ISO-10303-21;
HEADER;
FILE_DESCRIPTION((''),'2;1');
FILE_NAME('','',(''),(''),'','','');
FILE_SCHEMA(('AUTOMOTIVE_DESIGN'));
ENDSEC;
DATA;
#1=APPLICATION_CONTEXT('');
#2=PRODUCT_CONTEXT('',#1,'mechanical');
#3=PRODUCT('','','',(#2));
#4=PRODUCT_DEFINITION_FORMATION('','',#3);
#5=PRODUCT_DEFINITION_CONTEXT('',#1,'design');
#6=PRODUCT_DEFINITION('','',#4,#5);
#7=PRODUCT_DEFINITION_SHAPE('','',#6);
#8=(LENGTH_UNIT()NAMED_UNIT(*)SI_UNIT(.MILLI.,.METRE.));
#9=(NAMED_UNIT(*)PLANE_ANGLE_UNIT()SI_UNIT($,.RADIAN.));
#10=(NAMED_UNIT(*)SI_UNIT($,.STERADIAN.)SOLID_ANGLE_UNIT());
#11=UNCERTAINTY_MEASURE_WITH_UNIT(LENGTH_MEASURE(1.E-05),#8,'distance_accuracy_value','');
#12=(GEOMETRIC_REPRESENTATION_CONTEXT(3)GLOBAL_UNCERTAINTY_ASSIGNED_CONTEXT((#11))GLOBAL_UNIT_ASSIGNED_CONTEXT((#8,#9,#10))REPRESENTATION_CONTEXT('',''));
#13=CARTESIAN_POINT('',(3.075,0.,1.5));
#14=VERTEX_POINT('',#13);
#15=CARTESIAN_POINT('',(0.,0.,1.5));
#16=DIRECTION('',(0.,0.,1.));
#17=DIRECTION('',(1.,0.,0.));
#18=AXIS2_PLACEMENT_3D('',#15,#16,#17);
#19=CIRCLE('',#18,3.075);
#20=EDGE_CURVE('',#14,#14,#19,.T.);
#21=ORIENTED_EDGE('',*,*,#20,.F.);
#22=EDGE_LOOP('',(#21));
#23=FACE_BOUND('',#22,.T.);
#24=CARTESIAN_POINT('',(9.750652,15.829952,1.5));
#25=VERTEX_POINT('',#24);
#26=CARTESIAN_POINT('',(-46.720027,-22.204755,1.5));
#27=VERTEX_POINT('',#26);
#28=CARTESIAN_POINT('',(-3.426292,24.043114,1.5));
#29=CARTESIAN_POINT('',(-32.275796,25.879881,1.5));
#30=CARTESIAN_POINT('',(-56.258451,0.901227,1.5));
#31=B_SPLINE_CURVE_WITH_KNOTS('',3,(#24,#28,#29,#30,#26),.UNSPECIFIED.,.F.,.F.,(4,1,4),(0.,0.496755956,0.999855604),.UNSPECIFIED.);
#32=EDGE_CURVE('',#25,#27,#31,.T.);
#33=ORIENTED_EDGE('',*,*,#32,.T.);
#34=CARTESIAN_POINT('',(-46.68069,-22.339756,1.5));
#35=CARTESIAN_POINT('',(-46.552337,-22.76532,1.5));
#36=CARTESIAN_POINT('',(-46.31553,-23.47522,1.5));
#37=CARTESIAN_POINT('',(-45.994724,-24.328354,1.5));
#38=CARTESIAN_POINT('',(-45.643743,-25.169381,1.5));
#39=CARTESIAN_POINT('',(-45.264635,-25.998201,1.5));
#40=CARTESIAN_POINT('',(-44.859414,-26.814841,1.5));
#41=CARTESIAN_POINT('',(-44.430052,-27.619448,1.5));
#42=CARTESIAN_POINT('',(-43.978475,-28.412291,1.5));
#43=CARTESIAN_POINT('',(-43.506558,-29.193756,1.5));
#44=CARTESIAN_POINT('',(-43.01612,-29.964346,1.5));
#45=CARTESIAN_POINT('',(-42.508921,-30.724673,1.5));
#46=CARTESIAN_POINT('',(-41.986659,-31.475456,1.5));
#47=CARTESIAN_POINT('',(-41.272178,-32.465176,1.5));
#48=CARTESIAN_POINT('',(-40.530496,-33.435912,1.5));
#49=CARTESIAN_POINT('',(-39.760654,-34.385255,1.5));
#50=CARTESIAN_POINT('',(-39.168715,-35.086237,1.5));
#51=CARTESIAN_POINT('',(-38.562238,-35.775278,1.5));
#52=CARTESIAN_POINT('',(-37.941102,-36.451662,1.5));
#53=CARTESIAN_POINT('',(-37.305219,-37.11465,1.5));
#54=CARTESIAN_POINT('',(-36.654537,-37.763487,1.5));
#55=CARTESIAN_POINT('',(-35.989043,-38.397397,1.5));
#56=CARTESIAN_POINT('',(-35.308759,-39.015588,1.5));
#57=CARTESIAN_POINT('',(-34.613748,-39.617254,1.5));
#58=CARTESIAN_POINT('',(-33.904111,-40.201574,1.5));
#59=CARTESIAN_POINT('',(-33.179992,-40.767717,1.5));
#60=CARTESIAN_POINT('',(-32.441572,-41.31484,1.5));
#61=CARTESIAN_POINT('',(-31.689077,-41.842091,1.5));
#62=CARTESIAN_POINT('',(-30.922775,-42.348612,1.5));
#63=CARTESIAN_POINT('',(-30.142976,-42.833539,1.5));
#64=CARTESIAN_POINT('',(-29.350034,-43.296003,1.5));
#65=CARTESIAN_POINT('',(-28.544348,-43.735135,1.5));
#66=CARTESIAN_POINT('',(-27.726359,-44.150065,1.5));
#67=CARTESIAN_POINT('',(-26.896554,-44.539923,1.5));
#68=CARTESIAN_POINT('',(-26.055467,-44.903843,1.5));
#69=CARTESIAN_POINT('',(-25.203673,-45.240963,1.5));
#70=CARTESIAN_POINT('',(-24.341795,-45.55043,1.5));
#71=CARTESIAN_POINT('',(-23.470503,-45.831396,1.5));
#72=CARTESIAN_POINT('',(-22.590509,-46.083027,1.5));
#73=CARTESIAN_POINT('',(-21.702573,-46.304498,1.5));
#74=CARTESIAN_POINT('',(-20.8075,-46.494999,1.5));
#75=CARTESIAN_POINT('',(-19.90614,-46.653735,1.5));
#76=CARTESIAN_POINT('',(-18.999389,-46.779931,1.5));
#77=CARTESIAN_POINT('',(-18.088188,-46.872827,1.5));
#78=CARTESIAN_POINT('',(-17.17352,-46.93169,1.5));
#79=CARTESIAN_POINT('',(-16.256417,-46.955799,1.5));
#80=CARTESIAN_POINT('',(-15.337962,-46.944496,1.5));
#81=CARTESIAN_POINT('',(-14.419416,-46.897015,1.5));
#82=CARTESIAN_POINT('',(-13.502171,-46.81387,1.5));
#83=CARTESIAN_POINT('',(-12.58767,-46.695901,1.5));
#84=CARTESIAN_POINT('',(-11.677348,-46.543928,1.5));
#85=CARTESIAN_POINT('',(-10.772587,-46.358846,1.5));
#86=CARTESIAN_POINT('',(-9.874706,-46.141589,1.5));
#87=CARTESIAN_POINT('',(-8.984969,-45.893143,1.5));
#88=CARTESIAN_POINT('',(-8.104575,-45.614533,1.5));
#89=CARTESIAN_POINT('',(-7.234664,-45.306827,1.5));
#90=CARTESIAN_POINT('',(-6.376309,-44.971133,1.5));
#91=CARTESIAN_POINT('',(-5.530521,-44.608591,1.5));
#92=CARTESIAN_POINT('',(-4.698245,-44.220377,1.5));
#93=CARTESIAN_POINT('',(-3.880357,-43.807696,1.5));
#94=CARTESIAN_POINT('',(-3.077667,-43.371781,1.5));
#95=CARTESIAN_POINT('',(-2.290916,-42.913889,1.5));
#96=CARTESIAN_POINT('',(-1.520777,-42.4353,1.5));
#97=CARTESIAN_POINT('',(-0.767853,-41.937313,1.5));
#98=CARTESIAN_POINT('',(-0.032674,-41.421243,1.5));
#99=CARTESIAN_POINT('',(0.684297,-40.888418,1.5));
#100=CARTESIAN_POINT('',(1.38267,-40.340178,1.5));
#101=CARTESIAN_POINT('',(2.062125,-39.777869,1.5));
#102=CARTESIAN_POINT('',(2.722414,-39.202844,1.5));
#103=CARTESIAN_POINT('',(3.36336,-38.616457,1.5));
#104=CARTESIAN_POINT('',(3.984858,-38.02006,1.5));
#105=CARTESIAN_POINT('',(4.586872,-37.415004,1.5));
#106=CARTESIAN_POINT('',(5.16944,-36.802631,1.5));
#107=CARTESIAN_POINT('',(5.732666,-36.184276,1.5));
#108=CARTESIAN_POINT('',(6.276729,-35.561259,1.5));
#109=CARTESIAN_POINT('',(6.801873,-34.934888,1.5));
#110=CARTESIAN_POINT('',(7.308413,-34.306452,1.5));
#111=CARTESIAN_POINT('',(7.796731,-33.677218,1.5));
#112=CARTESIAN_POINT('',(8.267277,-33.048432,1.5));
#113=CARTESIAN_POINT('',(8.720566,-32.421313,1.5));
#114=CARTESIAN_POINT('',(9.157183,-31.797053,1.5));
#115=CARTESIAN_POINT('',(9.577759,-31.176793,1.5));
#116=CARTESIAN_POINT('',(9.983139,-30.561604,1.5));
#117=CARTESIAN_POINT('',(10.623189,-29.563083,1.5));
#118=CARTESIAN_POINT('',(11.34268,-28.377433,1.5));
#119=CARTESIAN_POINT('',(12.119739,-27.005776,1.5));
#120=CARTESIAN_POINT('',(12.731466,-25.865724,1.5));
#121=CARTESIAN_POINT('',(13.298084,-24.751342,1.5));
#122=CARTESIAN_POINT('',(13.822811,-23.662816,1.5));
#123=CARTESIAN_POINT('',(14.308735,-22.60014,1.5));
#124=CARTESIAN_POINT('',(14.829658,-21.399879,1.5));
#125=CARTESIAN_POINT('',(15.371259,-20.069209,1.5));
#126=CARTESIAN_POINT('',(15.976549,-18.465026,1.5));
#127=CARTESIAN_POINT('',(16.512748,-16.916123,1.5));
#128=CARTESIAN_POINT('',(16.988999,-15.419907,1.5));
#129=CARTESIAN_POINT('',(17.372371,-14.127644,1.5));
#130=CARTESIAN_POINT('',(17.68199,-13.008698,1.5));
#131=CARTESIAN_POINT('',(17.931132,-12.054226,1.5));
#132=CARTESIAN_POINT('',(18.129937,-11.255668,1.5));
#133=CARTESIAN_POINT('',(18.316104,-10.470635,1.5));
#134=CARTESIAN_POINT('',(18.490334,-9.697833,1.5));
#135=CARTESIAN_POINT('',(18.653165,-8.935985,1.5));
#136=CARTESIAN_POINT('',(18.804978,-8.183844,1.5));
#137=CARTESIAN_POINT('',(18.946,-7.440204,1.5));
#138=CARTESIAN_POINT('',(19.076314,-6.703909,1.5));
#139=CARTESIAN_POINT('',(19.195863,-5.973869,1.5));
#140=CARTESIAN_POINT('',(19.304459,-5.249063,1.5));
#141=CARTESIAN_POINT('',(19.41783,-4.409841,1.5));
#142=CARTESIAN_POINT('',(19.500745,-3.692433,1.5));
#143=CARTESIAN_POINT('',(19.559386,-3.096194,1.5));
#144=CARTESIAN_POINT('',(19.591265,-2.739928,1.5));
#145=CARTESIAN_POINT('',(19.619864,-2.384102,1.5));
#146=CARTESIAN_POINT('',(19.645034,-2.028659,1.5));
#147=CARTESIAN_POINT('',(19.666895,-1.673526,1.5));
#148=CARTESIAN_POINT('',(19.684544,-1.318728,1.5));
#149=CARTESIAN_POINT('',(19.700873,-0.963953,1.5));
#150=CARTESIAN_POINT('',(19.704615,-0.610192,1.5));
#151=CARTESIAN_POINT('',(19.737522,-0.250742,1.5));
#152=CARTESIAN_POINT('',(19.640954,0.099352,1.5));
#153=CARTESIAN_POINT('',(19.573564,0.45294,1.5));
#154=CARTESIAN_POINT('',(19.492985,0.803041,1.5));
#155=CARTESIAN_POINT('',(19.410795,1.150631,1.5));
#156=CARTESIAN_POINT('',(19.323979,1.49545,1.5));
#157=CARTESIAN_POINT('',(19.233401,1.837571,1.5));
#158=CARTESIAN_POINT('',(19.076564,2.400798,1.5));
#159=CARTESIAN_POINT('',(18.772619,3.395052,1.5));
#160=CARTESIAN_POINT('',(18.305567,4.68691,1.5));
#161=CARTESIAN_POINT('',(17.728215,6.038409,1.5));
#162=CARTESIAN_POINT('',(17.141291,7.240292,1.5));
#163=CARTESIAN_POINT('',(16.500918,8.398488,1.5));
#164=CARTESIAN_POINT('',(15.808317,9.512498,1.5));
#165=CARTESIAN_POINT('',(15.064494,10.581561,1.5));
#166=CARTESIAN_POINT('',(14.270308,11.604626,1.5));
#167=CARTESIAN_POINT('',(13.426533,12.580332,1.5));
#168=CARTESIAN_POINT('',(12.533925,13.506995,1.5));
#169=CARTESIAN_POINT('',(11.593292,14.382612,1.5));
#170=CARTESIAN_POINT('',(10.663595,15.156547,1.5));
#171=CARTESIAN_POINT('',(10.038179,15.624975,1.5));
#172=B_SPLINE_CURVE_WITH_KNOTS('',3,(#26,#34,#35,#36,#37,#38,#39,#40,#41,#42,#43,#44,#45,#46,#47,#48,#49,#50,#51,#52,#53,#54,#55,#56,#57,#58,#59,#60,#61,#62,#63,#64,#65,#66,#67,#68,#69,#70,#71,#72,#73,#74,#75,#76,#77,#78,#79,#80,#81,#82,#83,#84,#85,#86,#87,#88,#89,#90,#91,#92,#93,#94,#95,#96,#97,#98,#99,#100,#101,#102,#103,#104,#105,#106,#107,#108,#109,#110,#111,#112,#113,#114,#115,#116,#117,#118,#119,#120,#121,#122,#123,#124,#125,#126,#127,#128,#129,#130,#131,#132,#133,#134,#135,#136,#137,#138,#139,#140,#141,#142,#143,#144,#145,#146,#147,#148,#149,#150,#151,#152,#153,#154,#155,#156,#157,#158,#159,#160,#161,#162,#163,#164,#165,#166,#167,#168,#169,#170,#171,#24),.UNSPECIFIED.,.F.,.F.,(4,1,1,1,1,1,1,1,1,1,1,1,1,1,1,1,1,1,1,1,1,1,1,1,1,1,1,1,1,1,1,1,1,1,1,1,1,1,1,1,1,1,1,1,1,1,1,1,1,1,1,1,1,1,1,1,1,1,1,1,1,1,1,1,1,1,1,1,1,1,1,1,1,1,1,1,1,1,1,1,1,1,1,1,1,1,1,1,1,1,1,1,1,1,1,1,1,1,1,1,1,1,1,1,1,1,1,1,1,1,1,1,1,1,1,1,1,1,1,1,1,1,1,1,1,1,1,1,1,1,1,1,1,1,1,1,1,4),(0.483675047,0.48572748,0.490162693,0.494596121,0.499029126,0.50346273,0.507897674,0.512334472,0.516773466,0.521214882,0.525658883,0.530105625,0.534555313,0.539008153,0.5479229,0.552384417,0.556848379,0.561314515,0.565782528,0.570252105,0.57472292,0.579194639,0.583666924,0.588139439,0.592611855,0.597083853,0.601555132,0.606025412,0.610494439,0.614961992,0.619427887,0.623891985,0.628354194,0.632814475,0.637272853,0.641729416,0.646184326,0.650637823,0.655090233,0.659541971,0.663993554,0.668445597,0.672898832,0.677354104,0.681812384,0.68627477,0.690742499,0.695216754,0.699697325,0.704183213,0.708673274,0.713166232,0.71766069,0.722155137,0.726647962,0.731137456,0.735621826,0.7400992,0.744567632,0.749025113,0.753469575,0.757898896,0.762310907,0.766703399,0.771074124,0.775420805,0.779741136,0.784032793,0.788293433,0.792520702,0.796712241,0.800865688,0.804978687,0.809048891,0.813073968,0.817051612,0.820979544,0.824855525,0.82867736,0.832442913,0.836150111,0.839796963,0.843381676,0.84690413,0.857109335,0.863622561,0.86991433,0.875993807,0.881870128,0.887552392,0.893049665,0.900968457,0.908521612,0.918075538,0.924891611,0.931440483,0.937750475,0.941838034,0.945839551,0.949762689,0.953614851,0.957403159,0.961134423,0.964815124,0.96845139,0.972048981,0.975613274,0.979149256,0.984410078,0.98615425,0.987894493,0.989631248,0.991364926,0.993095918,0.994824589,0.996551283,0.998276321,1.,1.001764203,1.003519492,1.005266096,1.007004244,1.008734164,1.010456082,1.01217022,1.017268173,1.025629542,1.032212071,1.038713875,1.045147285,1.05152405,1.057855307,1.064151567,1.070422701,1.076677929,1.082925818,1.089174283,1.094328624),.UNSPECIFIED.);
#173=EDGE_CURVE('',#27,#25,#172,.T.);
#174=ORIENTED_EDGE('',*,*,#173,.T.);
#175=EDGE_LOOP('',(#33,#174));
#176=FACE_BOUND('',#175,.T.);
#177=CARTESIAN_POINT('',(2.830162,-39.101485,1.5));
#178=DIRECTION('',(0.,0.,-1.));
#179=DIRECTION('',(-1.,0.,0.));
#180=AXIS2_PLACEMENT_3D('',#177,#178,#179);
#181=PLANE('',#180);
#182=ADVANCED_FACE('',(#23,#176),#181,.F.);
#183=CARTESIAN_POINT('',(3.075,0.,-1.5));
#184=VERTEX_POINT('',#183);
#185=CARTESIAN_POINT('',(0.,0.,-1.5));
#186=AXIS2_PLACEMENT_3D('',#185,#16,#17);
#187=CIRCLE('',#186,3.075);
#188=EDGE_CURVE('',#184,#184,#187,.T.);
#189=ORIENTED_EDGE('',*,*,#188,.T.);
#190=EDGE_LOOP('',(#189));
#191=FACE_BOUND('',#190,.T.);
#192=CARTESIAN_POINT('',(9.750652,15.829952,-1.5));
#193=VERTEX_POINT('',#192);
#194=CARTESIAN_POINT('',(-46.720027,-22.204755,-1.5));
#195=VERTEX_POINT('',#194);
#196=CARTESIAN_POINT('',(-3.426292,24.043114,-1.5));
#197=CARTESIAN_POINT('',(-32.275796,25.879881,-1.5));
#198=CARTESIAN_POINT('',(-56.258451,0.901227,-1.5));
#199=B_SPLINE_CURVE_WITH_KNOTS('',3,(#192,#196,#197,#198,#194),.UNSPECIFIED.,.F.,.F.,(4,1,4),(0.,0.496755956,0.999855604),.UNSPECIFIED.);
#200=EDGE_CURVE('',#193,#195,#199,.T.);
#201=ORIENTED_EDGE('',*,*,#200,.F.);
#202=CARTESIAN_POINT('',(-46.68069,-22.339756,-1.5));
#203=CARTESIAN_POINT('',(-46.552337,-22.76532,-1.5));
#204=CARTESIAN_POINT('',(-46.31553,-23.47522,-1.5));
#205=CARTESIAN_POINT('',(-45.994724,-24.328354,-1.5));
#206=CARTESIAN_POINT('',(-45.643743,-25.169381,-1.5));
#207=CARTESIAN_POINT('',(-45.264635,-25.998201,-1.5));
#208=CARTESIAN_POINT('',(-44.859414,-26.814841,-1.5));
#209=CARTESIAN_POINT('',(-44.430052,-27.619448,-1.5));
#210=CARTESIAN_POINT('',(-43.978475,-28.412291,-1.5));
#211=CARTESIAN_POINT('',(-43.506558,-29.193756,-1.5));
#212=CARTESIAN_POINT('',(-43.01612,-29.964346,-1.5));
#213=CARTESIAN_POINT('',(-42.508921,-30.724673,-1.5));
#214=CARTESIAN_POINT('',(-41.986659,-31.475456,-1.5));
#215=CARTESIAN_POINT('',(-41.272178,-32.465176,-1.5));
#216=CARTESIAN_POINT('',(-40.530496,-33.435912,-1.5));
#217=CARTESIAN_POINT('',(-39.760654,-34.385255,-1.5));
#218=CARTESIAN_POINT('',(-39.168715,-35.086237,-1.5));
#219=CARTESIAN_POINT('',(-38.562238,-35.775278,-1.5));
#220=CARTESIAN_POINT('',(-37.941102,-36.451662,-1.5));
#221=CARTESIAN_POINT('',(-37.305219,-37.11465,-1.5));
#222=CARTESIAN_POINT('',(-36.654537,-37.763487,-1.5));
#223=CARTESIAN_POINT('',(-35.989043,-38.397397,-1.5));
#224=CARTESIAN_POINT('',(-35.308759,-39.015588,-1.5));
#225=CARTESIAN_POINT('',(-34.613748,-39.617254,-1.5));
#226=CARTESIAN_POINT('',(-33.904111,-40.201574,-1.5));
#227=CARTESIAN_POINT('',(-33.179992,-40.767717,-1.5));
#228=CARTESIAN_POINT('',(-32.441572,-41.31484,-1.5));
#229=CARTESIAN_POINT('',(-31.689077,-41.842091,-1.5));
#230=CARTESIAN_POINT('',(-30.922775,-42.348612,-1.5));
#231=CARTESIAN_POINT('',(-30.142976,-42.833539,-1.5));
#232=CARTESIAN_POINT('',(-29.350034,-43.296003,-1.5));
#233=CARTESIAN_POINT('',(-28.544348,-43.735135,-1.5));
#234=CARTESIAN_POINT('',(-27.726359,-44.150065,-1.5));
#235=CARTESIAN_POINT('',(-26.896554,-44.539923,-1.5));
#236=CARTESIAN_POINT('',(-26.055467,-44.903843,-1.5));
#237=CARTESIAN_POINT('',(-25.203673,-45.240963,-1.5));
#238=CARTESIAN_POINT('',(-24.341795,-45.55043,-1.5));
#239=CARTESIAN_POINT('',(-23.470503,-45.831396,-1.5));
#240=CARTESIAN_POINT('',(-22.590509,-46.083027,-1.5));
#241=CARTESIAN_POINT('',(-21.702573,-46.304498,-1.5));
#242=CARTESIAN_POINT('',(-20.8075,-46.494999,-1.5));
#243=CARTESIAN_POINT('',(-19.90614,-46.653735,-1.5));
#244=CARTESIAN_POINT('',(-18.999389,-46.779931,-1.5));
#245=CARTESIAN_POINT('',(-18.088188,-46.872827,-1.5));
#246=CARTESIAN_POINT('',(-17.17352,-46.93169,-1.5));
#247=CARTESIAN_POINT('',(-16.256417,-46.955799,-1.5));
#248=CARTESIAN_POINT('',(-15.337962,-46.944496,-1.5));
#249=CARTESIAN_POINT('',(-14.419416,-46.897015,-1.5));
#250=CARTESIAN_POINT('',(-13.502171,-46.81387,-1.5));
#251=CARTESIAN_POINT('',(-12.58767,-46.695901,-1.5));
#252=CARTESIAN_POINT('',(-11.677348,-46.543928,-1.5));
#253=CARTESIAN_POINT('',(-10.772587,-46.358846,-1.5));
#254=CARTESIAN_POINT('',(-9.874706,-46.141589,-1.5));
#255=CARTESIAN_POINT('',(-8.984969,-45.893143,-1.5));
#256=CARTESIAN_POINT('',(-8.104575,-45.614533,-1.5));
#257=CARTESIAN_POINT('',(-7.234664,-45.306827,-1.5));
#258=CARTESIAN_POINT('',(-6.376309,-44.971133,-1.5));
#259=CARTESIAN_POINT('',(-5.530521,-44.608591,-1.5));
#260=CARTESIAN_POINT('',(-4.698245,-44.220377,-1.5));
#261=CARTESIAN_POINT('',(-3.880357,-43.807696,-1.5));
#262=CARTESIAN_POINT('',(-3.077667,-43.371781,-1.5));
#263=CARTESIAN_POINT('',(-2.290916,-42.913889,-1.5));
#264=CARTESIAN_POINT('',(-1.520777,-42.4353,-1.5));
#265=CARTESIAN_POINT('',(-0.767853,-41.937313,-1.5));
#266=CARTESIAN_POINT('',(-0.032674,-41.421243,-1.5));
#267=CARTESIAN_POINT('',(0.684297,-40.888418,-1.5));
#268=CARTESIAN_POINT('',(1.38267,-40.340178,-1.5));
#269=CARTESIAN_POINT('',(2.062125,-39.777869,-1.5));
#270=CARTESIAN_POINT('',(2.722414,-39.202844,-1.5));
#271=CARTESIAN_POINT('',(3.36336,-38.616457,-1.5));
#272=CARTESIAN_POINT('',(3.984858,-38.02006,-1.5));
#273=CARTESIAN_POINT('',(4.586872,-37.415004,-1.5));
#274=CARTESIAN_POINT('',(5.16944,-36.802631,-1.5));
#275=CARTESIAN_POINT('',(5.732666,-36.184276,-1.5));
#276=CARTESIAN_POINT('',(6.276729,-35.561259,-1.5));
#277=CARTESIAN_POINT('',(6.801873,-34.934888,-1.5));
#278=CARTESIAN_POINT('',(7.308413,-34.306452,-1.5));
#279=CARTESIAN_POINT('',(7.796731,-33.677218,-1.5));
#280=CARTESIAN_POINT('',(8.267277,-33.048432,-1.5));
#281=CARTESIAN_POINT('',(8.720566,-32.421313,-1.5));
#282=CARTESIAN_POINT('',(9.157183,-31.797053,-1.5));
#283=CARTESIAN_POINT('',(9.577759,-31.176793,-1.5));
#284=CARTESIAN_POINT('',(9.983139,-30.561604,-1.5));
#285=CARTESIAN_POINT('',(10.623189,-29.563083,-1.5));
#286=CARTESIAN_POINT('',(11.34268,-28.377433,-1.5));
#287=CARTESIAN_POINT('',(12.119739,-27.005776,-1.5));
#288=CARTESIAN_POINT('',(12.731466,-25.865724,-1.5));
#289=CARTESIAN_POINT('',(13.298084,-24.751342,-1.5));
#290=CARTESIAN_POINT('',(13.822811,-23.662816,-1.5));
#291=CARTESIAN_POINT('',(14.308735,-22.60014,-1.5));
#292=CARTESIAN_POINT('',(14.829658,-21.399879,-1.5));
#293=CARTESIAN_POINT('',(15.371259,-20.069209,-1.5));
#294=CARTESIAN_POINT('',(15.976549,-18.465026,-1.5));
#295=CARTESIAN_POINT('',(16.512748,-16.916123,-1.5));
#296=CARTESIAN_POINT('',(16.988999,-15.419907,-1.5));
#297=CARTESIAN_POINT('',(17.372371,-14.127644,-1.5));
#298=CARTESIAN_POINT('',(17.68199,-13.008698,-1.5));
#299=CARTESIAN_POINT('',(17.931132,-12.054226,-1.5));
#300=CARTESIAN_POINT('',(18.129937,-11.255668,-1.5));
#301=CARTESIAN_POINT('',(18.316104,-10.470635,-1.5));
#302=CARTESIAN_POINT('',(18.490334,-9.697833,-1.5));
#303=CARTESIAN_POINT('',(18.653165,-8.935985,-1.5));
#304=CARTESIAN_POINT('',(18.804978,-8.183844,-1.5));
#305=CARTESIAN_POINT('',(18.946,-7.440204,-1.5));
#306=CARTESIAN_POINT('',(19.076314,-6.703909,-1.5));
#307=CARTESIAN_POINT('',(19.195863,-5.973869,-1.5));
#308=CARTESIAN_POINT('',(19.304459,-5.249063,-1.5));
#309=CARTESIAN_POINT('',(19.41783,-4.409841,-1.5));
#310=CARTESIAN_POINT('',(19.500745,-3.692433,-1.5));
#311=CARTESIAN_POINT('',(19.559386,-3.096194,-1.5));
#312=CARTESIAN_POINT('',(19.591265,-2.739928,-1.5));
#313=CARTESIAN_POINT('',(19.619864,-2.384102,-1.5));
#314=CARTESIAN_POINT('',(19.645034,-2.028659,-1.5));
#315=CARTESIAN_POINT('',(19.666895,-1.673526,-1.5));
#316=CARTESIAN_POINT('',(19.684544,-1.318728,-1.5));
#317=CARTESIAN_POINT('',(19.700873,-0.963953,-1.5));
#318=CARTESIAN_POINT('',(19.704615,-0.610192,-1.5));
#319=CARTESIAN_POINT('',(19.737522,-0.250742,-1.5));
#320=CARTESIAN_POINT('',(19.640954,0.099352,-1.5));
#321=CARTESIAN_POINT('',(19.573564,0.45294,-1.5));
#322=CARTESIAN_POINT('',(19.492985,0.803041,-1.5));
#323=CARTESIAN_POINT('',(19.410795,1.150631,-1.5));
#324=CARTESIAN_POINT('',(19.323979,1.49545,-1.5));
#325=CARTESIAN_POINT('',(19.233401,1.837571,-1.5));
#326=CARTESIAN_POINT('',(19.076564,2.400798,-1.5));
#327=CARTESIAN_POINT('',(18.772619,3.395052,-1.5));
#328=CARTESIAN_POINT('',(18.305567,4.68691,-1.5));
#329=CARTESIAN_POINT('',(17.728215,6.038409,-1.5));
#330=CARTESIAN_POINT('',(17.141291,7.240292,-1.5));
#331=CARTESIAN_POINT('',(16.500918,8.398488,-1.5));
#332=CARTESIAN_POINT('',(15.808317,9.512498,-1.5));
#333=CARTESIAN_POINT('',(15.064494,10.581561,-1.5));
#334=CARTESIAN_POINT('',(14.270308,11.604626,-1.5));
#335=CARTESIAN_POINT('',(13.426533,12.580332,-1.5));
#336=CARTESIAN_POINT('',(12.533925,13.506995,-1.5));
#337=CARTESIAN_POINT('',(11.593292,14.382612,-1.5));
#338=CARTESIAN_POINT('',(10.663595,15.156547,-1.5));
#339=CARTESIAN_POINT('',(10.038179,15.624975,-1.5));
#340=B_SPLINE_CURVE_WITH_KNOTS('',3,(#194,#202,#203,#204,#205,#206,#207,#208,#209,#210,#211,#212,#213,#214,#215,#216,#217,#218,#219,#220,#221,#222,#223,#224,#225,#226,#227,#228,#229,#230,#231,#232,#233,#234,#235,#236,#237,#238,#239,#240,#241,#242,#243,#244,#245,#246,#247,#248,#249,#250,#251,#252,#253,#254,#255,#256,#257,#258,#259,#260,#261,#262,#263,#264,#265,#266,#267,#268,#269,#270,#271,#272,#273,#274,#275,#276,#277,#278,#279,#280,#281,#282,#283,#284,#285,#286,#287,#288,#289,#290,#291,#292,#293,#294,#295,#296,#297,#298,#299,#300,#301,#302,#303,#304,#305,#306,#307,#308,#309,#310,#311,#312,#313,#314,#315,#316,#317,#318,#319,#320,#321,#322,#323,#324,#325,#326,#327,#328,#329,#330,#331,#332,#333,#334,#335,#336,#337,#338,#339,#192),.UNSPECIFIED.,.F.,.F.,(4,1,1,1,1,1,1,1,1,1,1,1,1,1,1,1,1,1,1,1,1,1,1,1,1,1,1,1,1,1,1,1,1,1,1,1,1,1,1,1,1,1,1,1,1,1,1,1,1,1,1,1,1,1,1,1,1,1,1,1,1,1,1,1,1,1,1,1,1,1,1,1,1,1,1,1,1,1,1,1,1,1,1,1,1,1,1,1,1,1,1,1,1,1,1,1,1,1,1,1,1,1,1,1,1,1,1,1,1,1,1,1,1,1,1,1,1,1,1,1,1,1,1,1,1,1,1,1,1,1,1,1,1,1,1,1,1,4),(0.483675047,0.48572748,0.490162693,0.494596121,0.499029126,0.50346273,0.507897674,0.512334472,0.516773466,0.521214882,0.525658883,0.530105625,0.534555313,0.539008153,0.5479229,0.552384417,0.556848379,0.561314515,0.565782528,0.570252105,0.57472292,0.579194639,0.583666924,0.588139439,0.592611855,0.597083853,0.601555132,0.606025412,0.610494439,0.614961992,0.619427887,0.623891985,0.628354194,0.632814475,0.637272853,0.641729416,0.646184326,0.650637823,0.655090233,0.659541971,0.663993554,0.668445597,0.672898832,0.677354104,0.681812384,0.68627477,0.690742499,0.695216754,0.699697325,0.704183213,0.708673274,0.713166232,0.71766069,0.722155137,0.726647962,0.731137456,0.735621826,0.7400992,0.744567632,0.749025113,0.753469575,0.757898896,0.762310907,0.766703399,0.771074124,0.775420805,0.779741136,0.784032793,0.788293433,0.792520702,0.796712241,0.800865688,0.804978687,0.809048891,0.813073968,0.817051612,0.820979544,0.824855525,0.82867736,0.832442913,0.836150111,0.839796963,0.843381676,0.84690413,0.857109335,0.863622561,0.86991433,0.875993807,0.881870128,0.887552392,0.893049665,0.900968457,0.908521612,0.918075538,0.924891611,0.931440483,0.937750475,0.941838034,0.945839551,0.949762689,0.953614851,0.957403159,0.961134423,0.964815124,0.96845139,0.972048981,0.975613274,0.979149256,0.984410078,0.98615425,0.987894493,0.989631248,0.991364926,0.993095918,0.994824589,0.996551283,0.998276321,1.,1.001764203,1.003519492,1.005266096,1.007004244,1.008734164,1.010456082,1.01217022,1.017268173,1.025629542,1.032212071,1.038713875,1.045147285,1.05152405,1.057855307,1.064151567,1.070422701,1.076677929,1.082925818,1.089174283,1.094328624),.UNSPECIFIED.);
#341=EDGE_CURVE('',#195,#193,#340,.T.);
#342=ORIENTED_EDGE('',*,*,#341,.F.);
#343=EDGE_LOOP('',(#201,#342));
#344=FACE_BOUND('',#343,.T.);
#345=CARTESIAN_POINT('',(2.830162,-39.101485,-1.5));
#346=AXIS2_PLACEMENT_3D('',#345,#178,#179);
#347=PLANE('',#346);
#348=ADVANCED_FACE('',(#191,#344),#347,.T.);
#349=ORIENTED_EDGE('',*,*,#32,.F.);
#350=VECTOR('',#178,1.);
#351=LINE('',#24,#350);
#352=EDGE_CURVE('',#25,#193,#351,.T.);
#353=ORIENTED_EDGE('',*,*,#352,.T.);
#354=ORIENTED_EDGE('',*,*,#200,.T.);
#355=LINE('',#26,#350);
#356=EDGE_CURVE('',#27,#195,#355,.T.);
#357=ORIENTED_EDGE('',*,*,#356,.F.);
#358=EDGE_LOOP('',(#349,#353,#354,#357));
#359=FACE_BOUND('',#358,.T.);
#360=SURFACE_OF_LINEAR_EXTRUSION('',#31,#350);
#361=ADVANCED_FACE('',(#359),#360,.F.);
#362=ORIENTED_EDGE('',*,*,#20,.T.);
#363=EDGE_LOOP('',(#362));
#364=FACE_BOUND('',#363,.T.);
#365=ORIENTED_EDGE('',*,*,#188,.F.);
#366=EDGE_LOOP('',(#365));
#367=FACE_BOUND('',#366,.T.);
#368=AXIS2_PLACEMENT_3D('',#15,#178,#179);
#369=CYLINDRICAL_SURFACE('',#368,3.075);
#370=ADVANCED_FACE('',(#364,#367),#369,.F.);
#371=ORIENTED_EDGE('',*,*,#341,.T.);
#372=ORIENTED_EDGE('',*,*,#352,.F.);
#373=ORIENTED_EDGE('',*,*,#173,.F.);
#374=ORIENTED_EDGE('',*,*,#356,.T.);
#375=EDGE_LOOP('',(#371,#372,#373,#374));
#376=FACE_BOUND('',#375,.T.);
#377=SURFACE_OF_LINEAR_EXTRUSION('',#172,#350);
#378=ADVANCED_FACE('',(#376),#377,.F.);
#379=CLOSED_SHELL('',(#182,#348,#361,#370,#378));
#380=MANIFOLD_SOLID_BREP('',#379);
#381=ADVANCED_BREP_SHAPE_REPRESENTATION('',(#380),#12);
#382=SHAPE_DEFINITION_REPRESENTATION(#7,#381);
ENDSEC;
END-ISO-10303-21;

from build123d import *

# Parameters (mm, degrees)
SKETCH1_R           = 3.075
BOSS_EXTRUDE1_DEPTH = 1.5


with BuildPart() as part:
    # Sketch1 → Boss-Extrude1 (new body, symmetric)
    with BuildSketch(Plane.XY):
        with BuildLine():
            add(Edge.make_bspline(
                [(-46.720026773, -22.204755219), (-56.258450699, 0.901227349), (-32.275795778, 25.879881467), (-3.426291802, 24.043113756), (9.750652489, 15.829951888)],
                knots=[0, 0, 0, 0, 0.503099648, 0.999855604, 0.999855604, 0.999855604, 0.999855604], degree=3))
            add(Edge.make_bspline(
                [(-46.720026773, -22.204755219), (-46.680689643, -22.339756211), (-46.552337188, -22.765320129), (-46.315530335, -23.47521968), (-45.994724396, -24.328354304), (-45.64374303, -25.169381167), (-45.264635333, -25.998201376), (-44.859414404, -26.814840747), (-44.430052296, -27.619447636), (-43.978475067, -28.412290623), (-43.506557848, -29.193756113), (-43.016120213, -29.964345543), (-42.508920831, -30.724673408), (-41.98665903, -31.475455995), (-41.272178342, -32.465175872), (-40.530495583, -33.435911926), (-39.760654445, -34.385255136), (-39.168714607, -35.086236776), (-38.56223783, -35.775277911), (-37.941101655, -36.451661692), (-37.305218595, -37.114650493), (-36.654537169, -37.763487278), (-35.98904287, -38.397397013), (-35.308759098, -39.015588125), (-34.613748037, -39.617253979), (-33.904111484, -40.201574401), (-33.179991632, -40.767717226), (-32.441571792, -41.31483987), (-31.689077075, -41.842090945), (-30.922775009, -42.348611881), (-30.142976112, -42.833538592), (-29.350034402, -43.296003147), (-28.54434786, -43.735135476), (-27.72635883, -44.150065091), (-26.896554369, -44.539922823), (-26.05546653, -44.903842577), (-25.203672602, -45.240963106), (-24.34179528, -45.550429793), (-23.470502783, -45.831396446), (-22.59050891, -46.083027105), (-21.702573042, -46.304497856), (-20.807500078, -46.494998666), (-19.906140324, -46.653735147), (-18.999389287, -46.779930638), (-18.088187534, -46.872827111), (-17.173520021, -46.931690474), (-16.25641713, -46.955799458), (-15.337962254, -46.944496019), (-14.419416411, -46.897014519), (-13.502171458, -46.813870224), (-12.587669719, -46.695900505), (-11.677348446, -46.543928076), (-10.772586844, -46.358845594), (-9.874706443, -46.141589251), (-8.984969023, -45.893142696), (-8.10457535, -45.614532777), (-7.234663806, -45.306827414), (-6.376309167, -44.971132863), (-5.530521439, -44.608591087), (-4.698244808, -44.22037706), (-3.880356665, -43.807696049), (-3.07766673, -43.371780865), (-2.290916276, -42.913889097), (-1.520777431, -42.435300311), (-0.767852592, -41.937313243), (-0.032673923, -41.421242973), (0.684297044, -40.888418077), (1.38266972, -40.340177787), (2.062124662, -39.777869125), (2.722413692, -39.202844049), (3.363359912, -38.616456584), (3.984857621, -38.020059966), (4.586872142, -37.415003785), (5.16943955, -36.802631136), (5.7326663, -36.18427578), (6.276728773, -35.561259321), (6.801872699, -34.934888387), (7.308412557, -34.306451871), (7.796730652, -33.677218042), (8.267276932, -33.048432225), (8.720565676, -32.421312524), (9.157183177, -31.797052797), (9.577758987, -31.176793353), (9.983138756, -30.561603659), (10.623188649, -29.563083498), (11.342680336, -28.377433431), (12.119739062, -27.005776194), (12.731465669, -25.865724124), (13.298084183, -24.751341683), (13.822810829, -23.662816401), (14.308734968, -22.600140026), (14.82965827, -21.399879269), (15.371259255, -20.06920945), (15.976548886, -18.465026138), (16.512747902, -16.916122776), (16.988999025, -15.419907268), (17.372371177, -14.127644324), (17.68199046, -13.008697513), (17.931131914, -12.054226121), (18.129937195, -11.255668389), (18.316104219, -10.470635113), (18.49033416, -9.697832797), (18.653165351, -8.935984948), (18.804978039, -8.183844157), (18.946000172, -7.440203813), (19.076313861, -6.703909306), (19.19586254, -5.973868683), (19.304458777, -5.249062748), (19.417829782, -4.409840942), (19.500745235, -3.692433305), (19.559386299, -3.096194107), (19.591265488, -2.739927615), (19.619864108, -2.3841015), (19.645033575, -2.028659), (19.666894619, -1.673525742), (19.684543866, -1.318728399), (19.700873179, -0.9639535), (19.704615044, -0.610191975), (19.737521809, -0.250741843), (19.640954278, 0.099351506), (19.573563761, 0.452939858), (19.492985371, 0.803041009), (19.410795423, 1.15063058), (19.323979309, 1.495450325), (19.233401037, 1.837570516), (19.076564402, 2.400797966), (18.772619068, 3.395052185), (18.305566934, 4.686910126), (17.72821517, 6.038409458), (17.14129084, 7.240292034), (16.500918227, 8.398487991), (15.808316547, 9.512497778), (15.064493585, 10.581561026), (14.270307523, 11.604626241), (13.426532565, 12.580331676), (12.533925366, 13.506994912), (11.593291789, 14.38261199), (10.663595364, 15.156547445), (10.038178791, 15.624974817), (9.750652489, 15.829951888)],
                knots=[0.483675047, 0.483675047, 0.483675047, 0.483675047, 0.48572748, 0.490162693, 0.494596121, 0.499029126, 0.50346273, 0.507897674, 0.512334472, 0.516773466, 0.521214882, 0.525658883, 0.530105625, 0.534555313, 0.539008153, 0.5479229, 0.552384417, 0.556848379, 0.561314515, 0.565782528, 0.570252105, 0.57472292, 0.579194639, 0.583666924, 0.588139439, 0.592611855, 0.597083853, 0.601555132, 0.606025412, 0.610494439, 0.614961992, 0.619427887, 0.623891985, 0.628354194, 0.632814475, 0.637272853, 0.641729416, 0.646184326, 0.650637823, 0.655090233, 0.659541971, 0.663993554, 0.668445597, 0.672898832, 0.677354104, 0.681812384, 0.68627477, 0.690742499, 0.695216754, 0.699697325, 0.704183213, 0.708673274, 0.713166232, 0.71766069, 0.722155137, 0.726647962, 0.731137456, 0.735621826, 0.7400992, 0.744567632, 0.749025113, 0.753469575, 0.757898896, 0.762310907, 0.766703399, 0.771074124, 0.775420805, 0.779741136, 0.784032793, 0.788293433, 0.792520702, 0.796712241, 0.800865688, 0.804978687, 0.809048891, 0.813073968, 0.817051612, 0.820979544, 0.824855525, 0.82867736, 0.832442913, 0.836150111, 0.839796963, 0.843381676, 0.84690413, 0.857109335, 0.863622561, 0.86991433, 0.875993807, 0.881870128, 0.887552392, 0.893049665, 0.900968457, 0.908521612, 0.918075538, 0.924891611, 0.931440483, 0.937750475, 0.941838034, 0.945839551, 0.949762689, 0.953614851, 0.957403159, 0.961134423, 0.964815124, 0.96845139, 0.972048981, 0.975613274, 0.979149256, 0.984410078, 0.98615425, 0.987894493, 0.989631248, 0.991364926, 0.993095918, 0.994824589, 0.996551283, 0.998276321, 1, 1.001764203, 1.003519492, 1.005266096, 1.007004244, 1.008734164, 1.010456082, 1.01217022, 1.017268173, 1.025629542, 1.032212071, 1.038713875, 1.045147285, 1.05152405, 1.057855307, 1.064151567, 1.070422701, 1.076677929, 1.082925818, 1.089174283, 1.094328624, 1.094328624, 1.094328624, 1.094328624], degree=3))
        make_face()
        Circle(SKETCH1_R, mode=Mode.SUBTRACT)
    extrude(amount=BOSS_EXTRUDE1_DEPTH, both=True)


solid = part.part
